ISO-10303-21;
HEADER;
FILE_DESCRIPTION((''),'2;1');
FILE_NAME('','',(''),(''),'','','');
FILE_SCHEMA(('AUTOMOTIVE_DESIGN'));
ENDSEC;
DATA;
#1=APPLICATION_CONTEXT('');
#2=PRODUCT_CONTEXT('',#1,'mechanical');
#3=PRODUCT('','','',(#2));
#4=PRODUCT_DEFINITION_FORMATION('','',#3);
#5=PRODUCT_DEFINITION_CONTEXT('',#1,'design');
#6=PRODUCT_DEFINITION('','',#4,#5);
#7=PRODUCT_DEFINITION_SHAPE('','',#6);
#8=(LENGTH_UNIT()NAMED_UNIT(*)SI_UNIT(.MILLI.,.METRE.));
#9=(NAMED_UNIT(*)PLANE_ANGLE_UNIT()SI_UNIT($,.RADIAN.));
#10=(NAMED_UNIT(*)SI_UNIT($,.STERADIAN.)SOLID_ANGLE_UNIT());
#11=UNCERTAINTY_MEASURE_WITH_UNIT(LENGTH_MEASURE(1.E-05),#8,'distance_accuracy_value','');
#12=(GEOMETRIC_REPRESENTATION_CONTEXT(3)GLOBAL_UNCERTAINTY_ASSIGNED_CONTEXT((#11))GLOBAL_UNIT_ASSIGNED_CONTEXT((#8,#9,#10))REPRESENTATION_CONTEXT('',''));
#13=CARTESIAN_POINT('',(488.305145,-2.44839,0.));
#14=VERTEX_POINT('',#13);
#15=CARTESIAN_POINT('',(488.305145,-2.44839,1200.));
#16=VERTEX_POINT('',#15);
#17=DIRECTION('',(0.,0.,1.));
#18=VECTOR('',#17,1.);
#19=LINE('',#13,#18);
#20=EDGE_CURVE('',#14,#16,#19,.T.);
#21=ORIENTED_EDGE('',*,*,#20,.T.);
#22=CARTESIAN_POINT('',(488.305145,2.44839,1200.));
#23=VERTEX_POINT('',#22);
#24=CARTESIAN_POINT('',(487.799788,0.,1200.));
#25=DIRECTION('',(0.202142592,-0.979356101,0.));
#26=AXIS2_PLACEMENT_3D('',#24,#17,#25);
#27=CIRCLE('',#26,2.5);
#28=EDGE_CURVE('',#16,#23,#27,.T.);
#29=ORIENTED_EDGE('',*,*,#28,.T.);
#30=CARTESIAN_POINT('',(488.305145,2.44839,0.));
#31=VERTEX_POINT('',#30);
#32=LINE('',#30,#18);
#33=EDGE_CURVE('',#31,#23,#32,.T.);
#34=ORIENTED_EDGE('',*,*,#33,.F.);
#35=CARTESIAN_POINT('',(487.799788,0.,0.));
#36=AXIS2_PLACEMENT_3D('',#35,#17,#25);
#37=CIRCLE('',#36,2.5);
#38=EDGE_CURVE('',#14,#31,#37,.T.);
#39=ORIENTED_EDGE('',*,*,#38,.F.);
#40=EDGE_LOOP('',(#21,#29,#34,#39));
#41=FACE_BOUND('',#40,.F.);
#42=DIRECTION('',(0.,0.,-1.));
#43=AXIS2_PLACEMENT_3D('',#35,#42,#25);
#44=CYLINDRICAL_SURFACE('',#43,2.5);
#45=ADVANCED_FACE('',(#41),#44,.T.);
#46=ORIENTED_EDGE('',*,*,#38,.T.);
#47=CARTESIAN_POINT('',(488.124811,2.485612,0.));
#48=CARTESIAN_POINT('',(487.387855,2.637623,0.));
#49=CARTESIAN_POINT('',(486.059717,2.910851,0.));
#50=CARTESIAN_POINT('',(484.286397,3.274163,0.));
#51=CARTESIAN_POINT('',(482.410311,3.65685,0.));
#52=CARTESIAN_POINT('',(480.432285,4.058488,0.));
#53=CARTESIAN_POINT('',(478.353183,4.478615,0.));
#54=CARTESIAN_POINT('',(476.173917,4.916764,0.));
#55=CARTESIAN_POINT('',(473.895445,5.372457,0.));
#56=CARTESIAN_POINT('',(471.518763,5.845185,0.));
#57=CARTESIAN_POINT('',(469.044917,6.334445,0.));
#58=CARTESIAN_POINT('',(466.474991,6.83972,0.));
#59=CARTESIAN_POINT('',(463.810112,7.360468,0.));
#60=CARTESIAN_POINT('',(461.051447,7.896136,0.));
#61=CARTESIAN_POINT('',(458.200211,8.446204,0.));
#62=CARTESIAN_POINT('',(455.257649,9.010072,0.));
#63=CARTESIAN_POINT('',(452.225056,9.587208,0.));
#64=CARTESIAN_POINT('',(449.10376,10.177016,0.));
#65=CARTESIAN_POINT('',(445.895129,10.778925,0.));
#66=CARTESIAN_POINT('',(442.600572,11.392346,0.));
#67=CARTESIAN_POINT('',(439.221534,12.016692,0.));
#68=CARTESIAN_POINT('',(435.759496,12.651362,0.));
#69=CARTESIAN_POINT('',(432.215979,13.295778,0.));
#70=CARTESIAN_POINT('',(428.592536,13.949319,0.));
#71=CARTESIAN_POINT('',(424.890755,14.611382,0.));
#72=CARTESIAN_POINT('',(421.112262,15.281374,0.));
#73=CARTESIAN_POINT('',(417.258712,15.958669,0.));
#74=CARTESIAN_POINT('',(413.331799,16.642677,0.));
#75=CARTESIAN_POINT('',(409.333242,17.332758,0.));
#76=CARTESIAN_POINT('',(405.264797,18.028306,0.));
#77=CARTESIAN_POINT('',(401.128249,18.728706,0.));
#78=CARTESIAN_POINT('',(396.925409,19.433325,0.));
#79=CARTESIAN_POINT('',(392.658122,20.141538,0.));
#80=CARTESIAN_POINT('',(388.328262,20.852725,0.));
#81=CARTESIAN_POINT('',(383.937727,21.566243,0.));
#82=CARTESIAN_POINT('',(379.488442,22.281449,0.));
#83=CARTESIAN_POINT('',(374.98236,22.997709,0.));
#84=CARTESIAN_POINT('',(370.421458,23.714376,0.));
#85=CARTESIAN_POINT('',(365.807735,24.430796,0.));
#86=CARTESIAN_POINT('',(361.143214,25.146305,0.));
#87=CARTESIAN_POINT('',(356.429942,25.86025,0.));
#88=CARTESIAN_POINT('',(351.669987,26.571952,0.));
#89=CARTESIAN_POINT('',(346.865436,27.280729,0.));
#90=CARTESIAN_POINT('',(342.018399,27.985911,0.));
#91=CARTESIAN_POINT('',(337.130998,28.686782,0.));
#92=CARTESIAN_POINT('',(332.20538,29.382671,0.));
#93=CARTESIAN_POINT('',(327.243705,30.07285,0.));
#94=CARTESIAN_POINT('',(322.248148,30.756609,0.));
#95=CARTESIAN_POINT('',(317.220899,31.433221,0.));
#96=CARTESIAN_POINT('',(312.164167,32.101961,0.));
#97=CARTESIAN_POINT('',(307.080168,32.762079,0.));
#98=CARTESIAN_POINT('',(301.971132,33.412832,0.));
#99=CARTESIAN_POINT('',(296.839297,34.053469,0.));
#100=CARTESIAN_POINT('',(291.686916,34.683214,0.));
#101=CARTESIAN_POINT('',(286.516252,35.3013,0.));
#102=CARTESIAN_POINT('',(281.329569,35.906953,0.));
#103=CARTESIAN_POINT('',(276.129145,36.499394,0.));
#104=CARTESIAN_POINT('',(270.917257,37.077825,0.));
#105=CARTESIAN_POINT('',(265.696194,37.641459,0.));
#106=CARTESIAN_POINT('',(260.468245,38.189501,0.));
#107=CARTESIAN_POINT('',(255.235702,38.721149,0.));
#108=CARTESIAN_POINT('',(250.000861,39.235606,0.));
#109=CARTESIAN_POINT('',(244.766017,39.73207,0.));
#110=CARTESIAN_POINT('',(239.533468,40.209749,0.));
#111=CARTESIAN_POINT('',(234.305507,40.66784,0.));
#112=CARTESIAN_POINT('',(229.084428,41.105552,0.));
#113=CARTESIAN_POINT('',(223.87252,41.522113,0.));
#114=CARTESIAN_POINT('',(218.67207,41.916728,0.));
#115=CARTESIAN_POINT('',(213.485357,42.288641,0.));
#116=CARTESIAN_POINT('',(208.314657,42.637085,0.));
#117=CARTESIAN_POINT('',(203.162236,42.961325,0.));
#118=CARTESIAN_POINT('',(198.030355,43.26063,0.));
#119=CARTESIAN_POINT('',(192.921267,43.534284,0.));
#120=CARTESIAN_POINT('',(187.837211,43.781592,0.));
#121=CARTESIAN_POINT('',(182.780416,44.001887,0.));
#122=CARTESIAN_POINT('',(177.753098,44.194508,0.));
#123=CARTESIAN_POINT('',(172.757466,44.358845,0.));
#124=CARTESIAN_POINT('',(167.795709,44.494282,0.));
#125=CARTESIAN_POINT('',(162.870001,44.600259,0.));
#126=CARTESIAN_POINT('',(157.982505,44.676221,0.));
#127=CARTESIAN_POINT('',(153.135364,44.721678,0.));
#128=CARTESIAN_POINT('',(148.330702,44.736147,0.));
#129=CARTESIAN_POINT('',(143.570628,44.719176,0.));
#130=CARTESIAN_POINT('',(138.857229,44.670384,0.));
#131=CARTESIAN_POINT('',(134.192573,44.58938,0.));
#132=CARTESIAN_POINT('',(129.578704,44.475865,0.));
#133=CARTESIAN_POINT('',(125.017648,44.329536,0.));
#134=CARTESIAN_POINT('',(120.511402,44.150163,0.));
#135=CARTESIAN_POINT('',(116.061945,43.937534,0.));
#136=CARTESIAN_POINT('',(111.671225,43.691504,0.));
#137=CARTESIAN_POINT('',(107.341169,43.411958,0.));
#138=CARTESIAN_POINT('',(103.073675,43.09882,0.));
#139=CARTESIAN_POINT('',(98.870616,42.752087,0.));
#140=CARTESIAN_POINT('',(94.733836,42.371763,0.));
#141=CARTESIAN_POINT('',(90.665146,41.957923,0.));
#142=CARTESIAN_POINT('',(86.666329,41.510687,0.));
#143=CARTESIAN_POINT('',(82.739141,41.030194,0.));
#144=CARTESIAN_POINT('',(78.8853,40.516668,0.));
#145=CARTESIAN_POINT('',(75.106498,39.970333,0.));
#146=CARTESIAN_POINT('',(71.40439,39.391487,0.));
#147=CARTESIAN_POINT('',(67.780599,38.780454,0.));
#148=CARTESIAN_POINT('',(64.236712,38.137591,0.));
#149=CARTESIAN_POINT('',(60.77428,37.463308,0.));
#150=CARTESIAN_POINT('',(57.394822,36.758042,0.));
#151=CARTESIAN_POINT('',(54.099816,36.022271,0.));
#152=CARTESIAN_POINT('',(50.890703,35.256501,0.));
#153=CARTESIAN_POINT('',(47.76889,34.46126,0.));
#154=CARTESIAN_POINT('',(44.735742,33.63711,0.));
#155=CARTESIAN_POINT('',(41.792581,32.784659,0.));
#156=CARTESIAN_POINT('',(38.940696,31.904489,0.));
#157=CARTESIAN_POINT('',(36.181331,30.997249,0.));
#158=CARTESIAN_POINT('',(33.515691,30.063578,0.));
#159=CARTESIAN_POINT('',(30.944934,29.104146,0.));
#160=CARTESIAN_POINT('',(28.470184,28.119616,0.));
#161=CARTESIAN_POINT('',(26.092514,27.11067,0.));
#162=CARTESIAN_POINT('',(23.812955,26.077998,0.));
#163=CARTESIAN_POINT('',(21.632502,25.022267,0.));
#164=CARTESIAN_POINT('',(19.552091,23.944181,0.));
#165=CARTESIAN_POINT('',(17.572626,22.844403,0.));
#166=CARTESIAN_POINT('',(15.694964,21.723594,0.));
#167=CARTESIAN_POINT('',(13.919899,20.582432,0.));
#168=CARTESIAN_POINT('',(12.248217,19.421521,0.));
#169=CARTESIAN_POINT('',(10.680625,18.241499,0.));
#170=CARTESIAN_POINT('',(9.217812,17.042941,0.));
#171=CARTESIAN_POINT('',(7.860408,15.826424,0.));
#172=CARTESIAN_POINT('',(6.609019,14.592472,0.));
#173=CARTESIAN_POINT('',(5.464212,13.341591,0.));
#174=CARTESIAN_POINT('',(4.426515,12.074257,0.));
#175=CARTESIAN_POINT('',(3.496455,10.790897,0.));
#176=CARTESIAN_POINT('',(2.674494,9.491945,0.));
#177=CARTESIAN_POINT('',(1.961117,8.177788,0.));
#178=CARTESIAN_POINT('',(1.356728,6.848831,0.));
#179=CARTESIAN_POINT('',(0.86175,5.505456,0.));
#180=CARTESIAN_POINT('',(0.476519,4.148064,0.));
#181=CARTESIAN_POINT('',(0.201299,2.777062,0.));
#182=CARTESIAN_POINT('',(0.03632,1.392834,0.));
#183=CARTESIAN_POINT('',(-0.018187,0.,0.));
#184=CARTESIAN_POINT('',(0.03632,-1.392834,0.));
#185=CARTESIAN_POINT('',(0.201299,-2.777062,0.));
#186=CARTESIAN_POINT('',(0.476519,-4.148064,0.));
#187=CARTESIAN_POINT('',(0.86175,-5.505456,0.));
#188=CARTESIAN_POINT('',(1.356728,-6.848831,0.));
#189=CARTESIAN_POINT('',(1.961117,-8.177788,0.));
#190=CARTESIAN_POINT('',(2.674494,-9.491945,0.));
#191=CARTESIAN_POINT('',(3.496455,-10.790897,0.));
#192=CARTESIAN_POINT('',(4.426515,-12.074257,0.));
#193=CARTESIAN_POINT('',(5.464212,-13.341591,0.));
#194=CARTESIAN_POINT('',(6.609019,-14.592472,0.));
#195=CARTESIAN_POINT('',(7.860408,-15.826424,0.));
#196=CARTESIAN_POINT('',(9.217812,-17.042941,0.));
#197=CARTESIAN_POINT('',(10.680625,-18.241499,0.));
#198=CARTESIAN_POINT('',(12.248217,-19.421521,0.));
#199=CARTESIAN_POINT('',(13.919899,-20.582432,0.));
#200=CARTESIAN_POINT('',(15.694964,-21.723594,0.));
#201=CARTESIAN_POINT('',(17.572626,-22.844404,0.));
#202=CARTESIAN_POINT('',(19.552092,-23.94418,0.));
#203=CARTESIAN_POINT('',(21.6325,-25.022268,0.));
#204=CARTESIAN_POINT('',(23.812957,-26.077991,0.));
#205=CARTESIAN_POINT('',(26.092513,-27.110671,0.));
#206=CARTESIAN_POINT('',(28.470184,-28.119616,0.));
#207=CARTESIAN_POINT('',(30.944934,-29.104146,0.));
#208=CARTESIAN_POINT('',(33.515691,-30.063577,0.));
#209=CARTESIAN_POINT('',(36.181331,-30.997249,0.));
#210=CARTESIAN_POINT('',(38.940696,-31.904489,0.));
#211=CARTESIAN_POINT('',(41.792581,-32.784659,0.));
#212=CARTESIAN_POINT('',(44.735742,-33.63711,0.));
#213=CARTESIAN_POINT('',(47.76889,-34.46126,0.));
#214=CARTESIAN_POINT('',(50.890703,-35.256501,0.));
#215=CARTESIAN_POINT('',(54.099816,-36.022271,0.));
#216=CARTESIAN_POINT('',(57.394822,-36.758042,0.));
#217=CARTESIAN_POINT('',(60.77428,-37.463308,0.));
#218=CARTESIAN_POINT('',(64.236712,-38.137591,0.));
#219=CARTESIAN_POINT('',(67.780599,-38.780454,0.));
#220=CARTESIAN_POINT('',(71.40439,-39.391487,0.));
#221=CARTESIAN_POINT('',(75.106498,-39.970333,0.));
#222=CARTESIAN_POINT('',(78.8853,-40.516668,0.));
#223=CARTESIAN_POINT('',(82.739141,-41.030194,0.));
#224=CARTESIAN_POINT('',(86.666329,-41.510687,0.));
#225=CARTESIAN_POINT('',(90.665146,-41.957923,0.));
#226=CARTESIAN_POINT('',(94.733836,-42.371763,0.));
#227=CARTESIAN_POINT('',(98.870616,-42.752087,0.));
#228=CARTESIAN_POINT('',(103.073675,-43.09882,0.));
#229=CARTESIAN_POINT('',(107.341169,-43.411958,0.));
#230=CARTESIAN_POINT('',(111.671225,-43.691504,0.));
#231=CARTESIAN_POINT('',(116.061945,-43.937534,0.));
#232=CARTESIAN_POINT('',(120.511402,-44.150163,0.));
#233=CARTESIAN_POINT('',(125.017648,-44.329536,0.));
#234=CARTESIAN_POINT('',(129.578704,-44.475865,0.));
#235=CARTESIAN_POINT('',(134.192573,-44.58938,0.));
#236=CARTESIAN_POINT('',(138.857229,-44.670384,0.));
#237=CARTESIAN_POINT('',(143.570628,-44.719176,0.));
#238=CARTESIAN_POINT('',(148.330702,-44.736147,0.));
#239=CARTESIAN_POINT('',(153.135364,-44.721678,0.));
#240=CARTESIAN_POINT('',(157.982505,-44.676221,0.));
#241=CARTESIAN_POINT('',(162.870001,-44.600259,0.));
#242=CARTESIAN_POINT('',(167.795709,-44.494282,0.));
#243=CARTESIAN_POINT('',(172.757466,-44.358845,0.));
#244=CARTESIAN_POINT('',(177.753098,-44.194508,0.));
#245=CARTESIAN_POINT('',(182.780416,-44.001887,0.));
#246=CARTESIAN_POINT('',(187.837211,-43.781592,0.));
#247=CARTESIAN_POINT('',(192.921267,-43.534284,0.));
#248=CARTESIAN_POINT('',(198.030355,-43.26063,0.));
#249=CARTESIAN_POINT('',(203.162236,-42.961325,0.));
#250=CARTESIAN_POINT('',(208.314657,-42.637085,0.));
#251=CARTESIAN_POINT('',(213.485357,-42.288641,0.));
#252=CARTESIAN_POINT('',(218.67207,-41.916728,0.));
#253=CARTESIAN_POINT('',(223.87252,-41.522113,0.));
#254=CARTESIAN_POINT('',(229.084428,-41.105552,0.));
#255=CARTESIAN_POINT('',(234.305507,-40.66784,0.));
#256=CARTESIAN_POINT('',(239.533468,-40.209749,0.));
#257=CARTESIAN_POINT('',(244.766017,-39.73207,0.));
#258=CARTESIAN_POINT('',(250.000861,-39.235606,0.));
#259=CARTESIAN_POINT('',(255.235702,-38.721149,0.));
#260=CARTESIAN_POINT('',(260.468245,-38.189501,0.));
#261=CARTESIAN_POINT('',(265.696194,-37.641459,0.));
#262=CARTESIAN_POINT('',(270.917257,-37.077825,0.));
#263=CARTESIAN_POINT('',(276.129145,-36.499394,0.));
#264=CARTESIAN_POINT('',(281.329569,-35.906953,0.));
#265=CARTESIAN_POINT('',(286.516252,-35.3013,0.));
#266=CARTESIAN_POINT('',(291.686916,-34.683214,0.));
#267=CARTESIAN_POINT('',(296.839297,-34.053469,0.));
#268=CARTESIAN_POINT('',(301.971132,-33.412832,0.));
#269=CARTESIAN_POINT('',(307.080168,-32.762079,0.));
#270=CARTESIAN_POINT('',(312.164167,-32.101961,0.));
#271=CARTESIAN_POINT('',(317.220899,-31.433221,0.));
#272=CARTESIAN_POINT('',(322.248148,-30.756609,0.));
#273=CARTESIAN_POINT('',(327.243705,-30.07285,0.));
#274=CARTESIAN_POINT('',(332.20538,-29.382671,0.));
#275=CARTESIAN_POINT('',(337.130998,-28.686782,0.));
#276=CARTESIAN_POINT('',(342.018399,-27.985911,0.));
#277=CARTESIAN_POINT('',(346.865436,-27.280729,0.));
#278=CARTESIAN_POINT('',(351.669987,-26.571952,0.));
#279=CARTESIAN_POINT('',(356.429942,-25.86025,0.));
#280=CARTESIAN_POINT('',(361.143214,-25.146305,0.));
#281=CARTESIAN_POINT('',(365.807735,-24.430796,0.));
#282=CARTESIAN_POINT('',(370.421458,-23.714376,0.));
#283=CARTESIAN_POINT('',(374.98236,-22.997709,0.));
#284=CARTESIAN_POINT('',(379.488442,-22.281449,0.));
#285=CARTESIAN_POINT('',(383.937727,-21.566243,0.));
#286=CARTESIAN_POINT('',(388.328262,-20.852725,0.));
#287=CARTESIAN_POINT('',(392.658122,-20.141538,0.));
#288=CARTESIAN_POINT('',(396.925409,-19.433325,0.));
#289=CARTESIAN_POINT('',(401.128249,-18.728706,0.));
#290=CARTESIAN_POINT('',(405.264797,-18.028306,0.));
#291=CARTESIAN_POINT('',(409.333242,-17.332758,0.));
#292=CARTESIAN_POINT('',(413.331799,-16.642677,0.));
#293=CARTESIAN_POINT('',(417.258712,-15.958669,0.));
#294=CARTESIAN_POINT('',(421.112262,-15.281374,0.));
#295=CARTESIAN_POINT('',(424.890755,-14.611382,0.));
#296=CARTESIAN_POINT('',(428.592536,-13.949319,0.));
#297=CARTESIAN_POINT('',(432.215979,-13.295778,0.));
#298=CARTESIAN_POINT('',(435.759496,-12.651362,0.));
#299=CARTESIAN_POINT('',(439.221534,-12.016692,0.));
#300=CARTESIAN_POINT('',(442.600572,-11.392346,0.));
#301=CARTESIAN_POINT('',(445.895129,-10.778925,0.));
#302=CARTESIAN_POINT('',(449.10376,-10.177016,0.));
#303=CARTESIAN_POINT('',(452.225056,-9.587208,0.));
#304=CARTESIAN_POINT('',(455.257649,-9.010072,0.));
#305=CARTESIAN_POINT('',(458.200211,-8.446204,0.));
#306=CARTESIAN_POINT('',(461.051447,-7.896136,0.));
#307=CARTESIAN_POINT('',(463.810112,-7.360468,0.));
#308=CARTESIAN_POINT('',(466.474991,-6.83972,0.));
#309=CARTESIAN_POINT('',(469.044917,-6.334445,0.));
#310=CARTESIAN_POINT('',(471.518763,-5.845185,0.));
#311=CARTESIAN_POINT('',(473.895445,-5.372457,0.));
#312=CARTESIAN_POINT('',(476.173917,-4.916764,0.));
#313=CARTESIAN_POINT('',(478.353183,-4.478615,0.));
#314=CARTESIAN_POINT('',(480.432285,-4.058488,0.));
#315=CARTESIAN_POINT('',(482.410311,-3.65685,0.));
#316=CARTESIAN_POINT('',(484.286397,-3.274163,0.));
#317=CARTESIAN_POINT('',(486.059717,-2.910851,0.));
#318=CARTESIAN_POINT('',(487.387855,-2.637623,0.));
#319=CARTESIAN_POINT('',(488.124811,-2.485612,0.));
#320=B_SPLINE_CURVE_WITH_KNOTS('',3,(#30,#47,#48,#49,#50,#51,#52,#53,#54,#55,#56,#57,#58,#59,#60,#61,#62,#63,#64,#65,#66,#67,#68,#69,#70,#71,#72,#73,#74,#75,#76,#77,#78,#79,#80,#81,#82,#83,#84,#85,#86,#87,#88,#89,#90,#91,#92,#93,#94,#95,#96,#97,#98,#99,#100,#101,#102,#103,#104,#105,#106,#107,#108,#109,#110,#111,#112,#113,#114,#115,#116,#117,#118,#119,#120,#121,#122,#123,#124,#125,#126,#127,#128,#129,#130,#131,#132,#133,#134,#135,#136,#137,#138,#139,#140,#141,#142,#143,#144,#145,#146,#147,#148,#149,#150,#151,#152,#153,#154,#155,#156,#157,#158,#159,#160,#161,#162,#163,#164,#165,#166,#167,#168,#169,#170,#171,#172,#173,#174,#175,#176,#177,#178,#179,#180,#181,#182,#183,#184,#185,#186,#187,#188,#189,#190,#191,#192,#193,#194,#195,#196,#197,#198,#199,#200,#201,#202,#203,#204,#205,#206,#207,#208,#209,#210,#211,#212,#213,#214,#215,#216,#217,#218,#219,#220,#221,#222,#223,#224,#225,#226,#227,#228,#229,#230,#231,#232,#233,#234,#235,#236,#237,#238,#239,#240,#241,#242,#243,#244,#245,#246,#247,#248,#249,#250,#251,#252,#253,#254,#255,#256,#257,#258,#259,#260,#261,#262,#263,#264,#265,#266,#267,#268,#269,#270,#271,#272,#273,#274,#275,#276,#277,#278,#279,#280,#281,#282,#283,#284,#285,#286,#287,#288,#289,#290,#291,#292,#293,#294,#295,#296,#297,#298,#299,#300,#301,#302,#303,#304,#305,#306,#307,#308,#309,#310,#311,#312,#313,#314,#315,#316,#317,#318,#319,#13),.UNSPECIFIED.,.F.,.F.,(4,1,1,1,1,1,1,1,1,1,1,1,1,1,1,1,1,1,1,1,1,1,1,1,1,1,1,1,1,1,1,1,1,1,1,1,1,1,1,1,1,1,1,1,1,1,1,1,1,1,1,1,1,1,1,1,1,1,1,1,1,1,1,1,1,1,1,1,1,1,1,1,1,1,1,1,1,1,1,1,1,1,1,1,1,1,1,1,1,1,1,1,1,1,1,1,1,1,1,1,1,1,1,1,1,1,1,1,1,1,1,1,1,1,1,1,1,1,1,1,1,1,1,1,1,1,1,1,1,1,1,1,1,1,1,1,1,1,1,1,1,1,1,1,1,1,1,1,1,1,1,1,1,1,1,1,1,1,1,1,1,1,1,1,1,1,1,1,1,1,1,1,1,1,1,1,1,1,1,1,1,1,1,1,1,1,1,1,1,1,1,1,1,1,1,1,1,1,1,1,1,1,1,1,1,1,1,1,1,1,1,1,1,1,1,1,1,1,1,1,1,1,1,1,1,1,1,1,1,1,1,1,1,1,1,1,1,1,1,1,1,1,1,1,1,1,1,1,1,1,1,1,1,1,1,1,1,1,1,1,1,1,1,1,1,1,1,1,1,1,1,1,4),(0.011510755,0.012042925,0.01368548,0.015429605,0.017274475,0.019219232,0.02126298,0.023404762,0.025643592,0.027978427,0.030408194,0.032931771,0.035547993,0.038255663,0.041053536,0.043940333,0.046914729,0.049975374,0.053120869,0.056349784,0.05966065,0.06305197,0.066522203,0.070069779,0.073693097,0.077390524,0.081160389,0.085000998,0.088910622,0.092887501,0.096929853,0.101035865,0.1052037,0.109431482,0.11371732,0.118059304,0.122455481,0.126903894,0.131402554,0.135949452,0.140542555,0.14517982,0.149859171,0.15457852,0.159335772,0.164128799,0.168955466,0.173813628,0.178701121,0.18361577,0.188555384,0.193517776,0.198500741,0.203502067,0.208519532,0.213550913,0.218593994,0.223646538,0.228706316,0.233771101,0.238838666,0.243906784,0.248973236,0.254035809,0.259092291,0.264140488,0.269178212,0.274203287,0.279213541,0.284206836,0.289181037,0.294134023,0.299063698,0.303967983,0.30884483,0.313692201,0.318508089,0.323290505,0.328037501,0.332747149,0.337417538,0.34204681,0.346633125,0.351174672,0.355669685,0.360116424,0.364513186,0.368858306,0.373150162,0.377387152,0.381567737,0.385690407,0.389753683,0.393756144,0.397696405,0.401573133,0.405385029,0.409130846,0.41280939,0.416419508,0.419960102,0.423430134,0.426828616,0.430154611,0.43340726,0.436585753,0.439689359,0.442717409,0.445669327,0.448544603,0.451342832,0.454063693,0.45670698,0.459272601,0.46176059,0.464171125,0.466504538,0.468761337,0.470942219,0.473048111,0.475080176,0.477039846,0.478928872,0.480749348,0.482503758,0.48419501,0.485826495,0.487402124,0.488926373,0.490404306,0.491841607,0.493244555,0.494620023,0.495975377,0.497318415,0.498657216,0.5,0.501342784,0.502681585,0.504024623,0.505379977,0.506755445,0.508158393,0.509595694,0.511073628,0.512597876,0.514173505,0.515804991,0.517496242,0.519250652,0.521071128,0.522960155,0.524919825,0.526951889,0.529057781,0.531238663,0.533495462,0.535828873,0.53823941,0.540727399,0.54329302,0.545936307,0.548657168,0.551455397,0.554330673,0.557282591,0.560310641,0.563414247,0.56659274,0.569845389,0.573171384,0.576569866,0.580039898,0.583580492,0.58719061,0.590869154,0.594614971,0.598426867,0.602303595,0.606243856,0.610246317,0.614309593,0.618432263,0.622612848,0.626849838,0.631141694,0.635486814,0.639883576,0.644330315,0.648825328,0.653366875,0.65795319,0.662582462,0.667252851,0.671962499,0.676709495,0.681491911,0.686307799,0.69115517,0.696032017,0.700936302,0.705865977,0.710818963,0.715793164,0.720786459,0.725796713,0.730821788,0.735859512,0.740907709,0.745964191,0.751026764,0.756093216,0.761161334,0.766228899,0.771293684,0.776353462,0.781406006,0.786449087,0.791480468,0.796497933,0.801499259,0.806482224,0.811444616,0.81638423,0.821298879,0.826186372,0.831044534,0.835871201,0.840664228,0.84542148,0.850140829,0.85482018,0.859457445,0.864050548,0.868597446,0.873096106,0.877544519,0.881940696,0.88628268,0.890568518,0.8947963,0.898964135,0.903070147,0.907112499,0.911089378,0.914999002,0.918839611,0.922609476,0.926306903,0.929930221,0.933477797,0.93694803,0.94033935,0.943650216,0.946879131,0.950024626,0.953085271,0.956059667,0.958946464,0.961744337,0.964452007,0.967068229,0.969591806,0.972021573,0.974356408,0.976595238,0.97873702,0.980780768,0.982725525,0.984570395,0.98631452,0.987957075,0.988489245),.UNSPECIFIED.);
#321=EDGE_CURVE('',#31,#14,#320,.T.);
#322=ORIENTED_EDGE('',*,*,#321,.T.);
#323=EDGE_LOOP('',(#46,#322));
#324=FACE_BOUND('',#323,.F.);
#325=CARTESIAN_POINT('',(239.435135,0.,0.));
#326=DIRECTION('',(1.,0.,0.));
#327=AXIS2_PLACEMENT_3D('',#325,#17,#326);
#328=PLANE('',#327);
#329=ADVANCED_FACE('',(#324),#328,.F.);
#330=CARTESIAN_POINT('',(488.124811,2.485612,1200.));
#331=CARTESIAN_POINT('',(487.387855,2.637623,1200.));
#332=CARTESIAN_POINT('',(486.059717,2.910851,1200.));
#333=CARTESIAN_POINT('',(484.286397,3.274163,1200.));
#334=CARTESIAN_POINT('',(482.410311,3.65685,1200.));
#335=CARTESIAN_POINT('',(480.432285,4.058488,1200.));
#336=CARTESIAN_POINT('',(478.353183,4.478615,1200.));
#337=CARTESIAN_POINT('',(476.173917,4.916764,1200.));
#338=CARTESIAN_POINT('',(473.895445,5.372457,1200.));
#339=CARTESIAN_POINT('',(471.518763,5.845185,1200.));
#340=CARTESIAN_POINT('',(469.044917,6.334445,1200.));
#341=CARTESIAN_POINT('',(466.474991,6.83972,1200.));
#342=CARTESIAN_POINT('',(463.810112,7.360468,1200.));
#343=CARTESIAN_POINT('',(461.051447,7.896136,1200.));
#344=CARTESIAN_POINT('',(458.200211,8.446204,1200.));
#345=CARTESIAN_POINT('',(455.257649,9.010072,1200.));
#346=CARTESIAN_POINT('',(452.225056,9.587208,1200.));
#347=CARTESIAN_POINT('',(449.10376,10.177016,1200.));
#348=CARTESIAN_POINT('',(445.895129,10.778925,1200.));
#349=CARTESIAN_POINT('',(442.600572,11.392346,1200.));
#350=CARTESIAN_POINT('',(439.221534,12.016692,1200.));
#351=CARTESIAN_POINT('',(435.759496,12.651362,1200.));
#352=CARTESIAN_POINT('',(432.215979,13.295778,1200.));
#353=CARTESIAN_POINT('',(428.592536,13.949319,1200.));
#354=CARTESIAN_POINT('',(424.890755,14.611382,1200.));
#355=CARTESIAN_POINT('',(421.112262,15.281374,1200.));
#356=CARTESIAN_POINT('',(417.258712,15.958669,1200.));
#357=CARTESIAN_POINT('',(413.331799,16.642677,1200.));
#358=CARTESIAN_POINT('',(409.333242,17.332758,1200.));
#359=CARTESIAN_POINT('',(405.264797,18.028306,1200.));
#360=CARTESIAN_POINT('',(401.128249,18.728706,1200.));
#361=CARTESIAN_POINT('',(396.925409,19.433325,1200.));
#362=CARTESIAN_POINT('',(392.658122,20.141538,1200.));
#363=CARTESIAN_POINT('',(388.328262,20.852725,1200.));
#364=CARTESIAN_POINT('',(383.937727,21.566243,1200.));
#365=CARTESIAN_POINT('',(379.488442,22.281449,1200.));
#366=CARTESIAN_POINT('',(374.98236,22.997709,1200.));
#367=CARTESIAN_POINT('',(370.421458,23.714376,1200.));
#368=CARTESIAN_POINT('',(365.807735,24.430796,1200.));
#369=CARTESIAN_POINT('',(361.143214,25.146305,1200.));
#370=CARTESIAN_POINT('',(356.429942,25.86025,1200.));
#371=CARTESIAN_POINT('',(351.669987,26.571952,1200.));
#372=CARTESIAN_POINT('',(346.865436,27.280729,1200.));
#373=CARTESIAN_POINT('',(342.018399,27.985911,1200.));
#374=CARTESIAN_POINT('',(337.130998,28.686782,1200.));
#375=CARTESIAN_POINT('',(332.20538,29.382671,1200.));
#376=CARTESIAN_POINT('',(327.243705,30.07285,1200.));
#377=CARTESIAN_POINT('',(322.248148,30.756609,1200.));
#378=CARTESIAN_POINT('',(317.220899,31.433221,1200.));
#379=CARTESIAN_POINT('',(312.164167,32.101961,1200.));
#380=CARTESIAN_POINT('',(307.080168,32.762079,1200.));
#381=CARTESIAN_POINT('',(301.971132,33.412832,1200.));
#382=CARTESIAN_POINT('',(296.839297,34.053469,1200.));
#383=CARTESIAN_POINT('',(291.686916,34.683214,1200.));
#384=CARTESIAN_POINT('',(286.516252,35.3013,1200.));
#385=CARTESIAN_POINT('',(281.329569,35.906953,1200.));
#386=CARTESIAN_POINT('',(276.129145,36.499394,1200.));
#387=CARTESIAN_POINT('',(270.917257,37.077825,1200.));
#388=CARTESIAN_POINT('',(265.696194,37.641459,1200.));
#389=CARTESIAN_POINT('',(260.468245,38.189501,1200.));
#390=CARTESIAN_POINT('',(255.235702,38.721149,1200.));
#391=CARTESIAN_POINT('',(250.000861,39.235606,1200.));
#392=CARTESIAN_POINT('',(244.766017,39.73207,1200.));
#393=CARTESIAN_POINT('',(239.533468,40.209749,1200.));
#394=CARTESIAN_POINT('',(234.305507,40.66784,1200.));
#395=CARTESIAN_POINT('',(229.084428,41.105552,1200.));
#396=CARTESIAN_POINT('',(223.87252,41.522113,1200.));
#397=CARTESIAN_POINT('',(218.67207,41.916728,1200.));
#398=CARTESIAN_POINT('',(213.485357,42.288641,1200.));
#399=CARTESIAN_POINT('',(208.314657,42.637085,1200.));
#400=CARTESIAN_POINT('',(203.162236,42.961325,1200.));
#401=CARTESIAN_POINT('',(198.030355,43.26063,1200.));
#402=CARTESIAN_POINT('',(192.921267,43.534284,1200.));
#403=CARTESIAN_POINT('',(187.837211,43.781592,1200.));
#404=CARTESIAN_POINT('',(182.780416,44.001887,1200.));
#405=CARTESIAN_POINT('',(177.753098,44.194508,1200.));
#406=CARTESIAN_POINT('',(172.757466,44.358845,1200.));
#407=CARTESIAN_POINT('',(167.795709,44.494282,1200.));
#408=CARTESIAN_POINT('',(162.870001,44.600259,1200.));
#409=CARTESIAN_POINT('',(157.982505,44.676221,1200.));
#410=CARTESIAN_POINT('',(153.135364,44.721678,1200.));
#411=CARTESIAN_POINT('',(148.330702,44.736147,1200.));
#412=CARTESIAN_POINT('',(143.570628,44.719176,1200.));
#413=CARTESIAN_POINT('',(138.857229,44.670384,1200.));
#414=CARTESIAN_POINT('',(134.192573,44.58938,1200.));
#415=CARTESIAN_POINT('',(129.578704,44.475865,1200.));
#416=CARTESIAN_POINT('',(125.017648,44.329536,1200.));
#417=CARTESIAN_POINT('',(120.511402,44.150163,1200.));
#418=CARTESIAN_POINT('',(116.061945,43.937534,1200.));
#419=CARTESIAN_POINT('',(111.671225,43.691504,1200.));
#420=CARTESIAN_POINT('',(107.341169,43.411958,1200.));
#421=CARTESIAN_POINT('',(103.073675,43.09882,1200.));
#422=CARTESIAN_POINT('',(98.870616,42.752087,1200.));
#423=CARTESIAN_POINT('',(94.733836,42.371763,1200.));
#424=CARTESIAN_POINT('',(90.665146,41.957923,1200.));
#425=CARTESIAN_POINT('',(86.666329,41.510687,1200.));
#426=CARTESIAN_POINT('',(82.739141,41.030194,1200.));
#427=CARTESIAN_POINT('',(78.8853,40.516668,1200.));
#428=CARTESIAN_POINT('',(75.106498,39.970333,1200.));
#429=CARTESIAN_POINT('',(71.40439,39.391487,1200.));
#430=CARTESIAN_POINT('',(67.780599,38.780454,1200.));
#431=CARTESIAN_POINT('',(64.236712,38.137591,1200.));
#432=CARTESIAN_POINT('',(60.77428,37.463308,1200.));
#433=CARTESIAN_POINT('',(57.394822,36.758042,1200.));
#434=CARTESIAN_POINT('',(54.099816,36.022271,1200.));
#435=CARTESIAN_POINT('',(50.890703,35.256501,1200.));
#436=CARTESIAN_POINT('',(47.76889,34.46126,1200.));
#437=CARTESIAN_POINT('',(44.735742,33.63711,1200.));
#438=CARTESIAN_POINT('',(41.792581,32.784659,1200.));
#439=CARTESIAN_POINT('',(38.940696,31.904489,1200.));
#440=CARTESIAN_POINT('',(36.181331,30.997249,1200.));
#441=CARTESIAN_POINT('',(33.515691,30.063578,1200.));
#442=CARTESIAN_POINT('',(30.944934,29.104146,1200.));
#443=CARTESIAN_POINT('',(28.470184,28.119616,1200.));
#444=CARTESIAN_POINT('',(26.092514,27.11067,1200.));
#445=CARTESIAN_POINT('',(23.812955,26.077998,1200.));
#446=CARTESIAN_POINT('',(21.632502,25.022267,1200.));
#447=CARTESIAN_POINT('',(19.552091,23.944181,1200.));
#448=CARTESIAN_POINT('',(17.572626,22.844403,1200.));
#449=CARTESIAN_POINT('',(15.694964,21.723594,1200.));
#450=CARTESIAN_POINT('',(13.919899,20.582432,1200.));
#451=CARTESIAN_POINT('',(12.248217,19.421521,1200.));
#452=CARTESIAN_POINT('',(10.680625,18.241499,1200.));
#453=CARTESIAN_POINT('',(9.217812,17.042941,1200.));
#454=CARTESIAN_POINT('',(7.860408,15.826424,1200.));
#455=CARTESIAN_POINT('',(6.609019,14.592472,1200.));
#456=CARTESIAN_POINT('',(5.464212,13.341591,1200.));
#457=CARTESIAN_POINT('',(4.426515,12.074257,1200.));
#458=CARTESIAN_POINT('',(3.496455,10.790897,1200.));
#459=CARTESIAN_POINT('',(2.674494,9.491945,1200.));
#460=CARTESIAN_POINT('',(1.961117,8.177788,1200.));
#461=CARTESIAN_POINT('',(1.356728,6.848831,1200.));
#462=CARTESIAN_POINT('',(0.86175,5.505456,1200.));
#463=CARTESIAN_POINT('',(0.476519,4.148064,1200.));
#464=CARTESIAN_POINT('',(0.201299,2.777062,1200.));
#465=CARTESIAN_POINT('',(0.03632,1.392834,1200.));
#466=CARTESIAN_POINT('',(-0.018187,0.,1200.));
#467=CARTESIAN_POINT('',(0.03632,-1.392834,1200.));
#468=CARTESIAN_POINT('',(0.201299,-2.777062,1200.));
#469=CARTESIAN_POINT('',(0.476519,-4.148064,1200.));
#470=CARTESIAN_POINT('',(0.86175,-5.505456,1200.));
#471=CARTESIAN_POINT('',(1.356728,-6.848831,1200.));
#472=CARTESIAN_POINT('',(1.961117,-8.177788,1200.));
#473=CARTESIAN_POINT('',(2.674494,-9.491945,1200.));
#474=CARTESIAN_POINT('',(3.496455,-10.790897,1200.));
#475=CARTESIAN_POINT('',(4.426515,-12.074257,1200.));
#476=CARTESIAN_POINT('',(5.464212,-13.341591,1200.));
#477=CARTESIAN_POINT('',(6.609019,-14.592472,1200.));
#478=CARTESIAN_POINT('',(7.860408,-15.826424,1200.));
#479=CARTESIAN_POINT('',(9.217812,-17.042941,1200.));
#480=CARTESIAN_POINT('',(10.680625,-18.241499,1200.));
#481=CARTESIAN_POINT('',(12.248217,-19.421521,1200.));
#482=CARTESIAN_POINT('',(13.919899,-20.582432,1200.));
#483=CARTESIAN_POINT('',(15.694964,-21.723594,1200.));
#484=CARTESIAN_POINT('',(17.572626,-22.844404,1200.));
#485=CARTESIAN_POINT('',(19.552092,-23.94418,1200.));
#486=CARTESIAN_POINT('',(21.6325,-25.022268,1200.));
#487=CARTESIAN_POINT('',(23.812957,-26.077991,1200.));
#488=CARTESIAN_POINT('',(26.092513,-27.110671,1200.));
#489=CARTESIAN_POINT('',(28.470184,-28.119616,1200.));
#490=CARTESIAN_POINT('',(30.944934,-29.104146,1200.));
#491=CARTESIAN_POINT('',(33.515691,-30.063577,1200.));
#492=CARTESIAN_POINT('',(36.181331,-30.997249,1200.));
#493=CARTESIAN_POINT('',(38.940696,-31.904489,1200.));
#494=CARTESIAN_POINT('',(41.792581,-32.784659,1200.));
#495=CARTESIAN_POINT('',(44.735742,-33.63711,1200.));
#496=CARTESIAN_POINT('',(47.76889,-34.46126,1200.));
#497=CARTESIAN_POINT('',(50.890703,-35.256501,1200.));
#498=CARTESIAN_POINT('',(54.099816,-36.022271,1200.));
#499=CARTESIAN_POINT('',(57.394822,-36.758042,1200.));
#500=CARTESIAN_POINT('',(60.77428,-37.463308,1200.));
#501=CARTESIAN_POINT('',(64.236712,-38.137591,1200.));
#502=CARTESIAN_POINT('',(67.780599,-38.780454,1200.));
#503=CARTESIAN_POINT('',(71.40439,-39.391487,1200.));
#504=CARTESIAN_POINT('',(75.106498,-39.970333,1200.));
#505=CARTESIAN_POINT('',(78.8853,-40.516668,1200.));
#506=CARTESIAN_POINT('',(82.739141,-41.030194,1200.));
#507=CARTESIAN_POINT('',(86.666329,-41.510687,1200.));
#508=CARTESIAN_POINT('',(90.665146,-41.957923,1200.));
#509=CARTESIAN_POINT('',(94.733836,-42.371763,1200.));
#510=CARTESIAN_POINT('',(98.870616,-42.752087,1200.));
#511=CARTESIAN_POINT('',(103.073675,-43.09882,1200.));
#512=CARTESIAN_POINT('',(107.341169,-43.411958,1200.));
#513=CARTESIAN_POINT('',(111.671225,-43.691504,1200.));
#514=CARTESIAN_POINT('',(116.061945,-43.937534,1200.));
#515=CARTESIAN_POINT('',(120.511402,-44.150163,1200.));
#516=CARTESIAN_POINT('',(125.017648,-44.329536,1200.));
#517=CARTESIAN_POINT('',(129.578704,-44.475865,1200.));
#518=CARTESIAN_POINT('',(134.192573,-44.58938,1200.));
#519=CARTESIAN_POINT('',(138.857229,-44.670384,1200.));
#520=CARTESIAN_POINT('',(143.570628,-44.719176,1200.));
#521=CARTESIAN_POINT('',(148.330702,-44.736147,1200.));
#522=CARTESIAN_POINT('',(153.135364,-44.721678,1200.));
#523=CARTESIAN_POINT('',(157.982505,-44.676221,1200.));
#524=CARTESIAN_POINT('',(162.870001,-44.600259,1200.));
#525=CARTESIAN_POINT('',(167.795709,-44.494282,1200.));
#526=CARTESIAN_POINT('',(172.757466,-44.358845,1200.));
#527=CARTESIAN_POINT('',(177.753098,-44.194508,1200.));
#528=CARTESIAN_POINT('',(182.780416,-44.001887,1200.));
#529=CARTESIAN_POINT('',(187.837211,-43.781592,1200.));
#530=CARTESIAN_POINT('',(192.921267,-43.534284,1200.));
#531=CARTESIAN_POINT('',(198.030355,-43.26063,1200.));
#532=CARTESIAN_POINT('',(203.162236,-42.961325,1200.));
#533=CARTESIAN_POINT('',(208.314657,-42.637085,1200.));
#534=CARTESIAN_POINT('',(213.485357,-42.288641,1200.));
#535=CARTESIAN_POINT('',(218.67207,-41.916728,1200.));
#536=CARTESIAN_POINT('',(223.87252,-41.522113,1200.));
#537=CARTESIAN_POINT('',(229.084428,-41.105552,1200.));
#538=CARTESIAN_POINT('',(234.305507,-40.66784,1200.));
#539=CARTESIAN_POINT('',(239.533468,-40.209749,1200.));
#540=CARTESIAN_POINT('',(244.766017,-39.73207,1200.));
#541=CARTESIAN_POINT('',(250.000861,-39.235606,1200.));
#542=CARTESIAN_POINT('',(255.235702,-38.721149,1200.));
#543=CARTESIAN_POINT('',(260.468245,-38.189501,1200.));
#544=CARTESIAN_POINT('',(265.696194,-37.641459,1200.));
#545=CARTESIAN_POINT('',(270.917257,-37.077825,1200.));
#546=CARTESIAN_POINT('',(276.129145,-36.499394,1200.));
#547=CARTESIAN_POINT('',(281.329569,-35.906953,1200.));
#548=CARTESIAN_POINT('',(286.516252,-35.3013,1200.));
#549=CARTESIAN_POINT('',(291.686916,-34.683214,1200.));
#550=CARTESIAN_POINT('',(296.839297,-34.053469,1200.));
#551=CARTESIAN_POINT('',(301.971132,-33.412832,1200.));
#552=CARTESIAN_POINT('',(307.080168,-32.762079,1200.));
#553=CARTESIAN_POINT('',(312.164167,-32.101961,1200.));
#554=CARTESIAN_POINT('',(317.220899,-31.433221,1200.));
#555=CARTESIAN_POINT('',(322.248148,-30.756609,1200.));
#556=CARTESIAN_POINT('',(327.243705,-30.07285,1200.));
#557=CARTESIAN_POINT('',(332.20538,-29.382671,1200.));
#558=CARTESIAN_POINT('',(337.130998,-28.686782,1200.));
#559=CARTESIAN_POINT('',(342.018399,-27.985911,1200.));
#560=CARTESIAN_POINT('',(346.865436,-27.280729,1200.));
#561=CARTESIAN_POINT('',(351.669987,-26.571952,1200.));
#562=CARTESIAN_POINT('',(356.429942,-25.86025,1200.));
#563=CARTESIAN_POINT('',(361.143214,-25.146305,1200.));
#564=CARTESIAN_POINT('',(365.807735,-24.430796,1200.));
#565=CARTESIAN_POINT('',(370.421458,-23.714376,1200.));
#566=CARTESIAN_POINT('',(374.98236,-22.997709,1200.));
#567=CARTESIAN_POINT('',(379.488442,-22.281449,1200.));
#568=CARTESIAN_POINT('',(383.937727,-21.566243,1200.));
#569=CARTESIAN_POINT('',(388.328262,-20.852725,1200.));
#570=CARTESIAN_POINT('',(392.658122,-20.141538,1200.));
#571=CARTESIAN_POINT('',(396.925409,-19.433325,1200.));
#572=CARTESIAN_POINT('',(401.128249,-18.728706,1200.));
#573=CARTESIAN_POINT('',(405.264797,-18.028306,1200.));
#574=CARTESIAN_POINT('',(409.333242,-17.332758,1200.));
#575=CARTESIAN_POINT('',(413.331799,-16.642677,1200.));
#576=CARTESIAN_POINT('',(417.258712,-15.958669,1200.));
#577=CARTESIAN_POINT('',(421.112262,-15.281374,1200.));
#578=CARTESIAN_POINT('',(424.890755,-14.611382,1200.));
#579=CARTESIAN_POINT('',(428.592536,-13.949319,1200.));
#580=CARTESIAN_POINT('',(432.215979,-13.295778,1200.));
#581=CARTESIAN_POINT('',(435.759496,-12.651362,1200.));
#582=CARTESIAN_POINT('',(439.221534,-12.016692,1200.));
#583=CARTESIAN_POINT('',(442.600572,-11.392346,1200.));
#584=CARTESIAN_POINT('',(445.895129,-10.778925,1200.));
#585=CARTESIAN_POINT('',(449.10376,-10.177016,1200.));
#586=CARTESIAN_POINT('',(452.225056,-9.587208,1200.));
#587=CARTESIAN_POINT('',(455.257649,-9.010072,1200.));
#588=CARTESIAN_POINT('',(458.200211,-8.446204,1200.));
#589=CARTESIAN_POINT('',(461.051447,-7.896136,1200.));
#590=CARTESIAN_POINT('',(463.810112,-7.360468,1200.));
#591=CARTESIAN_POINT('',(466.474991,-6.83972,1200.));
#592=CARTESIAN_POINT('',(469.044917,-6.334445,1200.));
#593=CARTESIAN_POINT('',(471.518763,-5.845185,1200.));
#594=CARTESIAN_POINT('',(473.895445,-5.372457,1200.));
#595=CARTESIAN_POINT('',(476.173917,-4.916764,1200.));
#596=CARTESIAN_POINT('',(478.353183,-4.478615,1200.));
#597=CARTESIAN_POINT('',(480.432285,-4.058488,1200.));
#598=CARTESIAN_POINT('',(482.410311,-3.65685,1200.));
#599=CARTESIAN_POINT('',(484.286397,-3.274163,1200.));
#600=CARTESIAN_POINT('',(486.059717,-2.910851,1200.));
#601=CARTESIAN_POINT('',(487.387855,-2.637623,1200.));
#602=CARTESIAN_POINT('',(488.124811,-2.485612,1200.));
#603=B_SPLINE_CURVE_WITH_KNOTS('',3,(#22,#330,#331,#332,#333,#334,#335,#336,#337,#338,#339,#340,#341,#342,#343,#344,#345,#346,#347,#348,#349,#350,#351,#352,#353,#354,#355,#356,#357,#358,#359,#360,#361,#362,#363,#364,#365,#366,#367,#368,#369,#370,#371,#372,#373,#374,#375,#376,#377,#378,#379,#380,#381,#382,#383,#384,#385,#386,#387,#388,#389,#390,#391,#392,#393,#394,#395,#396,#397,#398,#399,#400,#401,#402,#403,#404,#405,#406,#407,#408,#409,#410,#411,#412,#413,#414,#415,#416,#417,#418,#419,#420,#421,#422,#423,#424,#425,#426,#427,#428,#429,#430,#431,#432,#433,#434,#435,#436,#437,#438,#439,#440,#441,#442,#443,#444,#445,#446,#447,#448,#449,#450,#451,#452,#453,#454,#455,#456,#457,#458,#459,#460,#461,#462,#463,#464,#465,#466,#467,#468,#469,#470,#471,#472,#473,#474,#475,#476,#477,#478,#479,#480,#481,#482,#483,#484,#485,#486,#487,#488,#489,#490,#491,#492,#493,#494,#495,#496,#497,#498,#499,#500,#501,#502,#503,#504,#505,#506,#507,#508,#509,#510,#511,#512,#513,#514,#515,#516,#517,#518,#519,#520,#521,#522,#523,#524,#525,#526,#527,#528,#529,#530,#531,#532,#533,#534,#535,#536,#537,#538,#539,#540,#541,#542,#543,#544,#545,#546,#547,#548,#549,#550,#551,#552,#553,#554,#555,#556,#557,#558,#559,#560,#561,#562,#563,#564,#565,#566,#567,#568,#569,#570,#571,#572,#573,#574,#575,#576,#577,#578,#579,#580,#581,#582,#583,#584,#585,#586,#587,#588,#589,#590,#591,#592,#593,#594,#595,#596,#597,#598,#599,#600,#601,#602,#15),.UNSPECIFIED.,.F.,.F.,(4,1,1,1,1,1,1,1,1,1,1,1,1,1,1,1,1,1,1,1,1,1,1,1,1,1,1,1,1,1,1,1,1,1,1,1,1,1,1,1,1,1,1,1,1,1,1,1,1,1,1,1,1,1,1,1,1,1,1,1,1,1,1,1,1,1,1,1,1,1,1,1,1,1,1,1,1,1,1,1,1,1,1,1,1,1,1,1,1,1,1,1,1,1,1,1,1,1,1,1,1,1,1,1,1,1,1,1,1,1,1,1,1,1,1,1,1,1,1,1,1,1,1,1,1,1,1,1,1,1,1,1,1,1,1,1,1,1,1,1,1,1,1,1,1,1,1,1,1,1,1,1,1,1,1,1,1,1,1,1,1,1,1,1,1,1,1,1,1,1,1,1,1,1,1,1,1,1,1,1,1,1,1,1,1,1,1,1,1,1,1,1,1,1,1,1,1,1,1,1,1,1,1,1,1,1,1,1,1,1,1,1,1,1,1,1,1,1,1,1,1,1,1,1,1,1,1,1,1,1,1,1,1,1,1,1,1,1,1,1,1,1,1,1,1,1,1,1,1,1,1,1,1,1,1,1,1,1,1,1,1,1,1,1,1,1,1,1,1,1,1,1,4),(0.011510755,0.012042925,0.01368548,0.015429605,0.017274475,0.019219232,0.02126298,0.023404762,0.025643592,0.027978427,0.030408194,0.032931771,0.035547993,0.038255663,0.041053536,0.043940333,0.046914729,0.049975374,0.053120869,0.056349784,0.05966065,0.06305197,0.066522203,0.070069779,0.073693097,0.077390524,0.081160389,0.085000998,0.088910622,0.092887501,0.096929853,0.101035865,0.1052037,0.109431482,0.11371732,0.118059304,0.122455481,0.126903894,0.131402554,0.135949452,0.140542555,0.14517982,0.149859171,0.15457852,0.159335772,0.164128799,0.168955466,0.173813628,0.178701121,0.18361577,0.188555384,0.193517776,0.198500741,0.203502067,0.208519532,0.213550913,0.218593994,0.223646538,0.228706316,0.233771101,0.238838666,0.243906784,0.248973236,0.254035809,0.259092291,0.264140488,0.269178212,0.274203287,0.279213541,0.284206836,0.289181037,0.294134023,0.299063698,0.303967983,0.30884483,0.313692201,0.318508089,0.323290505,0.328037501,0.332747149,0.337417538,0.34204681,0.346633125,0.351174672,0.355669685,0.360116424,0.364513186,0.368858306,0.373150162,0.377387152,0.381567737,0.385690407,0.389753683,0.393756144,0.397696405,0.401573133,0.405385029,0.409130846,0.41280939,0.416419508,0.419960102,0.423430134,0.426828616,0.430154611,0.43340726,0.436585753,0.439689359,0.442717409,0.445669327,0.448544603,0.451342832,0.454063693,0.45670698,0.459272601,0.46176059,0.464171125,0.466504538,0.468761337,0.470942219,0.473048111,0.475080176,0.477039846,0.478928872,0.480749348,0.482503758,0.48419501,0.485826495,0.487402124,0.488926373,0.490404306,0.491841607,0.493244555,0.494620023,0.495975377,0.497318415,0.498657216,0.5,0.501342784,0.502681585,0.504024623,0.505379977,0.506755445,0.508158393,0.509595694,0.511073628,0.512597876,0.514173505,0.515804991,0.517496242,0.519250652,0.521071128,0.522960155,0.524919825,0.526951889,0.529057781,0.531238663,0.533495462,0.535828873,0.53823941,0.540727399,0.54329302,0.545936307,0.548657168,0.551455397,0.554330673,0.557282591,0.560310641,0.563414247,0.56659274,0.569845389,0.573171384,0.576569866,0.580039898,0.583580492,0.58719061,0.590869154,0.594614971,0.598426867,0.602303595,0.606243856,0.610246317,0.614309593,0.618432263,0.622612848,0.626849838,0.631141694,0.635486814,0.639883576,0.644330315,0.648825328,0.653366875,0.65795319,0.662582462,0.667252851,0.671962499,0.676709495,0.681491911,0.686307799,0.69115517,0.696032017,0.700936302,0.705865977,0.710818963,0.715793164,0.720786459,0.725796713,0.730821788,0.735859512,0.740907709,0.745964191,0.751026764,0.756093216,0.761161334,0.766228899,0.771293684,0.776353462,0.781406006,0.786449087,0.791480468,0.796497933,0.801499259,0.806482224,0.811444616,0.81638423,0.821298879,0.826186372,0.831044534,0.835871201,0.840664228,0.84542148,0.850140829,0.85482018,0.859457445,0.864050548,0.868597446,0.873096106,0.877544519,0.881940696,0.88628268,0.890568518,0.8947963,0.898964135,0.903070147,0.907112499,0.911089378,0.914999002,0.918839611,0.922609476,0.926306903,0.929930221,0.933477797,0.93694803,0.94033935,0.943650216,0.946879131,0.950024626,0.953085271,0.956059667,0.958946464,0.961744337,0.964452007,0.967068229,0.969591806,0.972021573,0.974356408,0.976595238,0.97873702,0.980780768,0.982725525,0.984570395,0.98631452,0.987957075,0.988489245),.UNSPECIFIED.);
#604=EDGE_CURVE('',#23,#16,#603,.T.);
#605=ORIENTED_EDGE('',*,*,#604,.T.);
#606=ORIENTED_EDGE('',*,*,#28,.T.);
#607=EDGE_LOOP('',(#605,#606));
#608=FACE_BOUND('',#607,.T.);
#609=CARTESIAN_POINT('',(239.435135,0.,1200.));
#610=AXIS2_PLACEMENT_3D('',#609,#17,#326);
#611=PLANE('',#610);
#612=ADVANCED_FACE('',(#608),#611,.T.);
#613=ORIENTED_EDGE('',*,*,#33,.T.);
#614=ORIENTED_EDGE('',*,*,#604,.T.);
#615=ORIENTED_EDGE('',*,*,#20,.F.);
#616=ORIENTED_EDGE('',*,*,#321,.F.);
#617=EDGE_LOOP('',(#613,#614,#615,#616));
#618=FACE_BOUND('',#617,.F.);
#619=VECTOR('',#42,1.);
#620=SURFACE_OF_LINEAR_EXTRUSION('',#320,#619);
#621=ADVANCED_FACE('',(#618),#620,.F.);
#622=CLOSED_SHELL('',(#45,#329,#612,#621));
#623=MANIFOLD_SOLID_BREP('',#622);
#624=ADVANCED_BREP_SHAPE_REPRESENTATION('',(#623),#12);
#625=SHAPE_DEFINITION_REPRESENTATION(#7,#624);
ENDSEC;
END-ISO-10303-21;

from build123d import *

# Parameters (mm, degrees)
BOSS_EXTRUDE1_DEPTH = 1200


with BuildPart() as part:
    # Sketch2 → Boss-Extrude1 (new body)
    with BuildSketch(Plane.XY):
        with BuildLine():
            ThreePointArc((488.305144841, -2.448390252), (490.299788361, 3.5e-08), (488.305144772, 2.448390267))
            add(Edge.make_bspline(
                [(488.305144772, 2.448390267), (488.124811309, 2.485611748), (487.387854717, 2.637623072), (486.05971682, 2.910850562), (484.286396793, 3.27416329), (482.410310751, 3.656850243), (480.432284688, 4.058487907), (478.353183223, 4.478614651), (476.173916668, 4.916763697), (473.895444753, 5.372457134), (471.518763052, 5.845184548), (469.044916792, 6.334445454), (466.474991312, 6.839720042), (463.810112154, 7.360467708), (461.051447255, 7.896136083), (458.200211186, 8.446204155), (455.257648866, 9.010071656), (452.225056209, 9.587208077), (449.103759993, 10.17701628), (445.895128907, 10.77892519), (442.600572158, 11.392345654), (439.221533967, 12.016692478), (435.759495547, 12.651362456), (432.215978932, 13.295777522), (428.592536015, 13.949319099), (424.890755113, 14.611381893), (421.112262139, 15.2813738), (417.258712116, 15.95866948), (413.331799058, 16.642676873), (409.333242325, 17.332758314), (405.264797071, 18.028305842), (401.12824943, 18.728706342), (396.925409156, 19.433325318), (392.658121539, 20.141537756), (388.328261773, 20.852725088), (383.937726638, 21.566243161), (379.488442364, 22.281449277), (374.98236013, 22.997709257), (370.421458195, 23.714376272), (365.80773461, 24.430795504), (361.143213717, 25.146304516), (356.429942258, 25.860250033), (351.669987148, 26.571951528), (346.865436386, 27.280728548), (342.018398966, 27.985910889), (337.130997682, 28.686782235), (332.205380076, 29.382670736), (327.243704839, 30.072849518), (322.248148097, 30.756608787), (317.220899218, 31.433221282), (312.164167374, 32.101960715), (307.080168058, 32.762079089), (301.971131717, 33.412832222), (296.839297221, 34.053468915), (291.68691645, 34.683213591), (286.51625164, 35.301300175), (281.329569222, 35.906952918), (276.129144691, 36.499394354), (270.917256628, 37.077825141), (265.696193996, 37.64145893), (260.468244936, 38.189500864), (255.235702232, 38.721149197), (250.000860929, 39.235606314), (244.766017084, 39.732069646), (239.533467861, 40.209748519), (234.305507255, 40.667839618), (229.084428367, 41.105552195), (223.872520254, 41.522113386), (218.672069544, 41.916728174), (213.485357137, 42.28864146), (208.314656837, 42.637085196), (203.162235703, 42.961325246), (198.030354881, 43.260629947), (192.921267334, 43.534284266), (187.837211005, 43.781591837), (182.780415971, 44.001887347), (177.753098047, 44.194508437), (172.757465889, 44.358844554), (167.795708691, 44.494282396), (162.870001456, 44.600259134), (157.982505285, 44.676221014), (153.13536353, 44.721678415), (148.330702306, 44.736146881), (143.570628116, 44.719175944), (138.857228797, 44.67038427), (134.192572712, 44.589379998), (129.578704085, 44.475864589), (125.017647985, 44.329535933), (120.511401945, 44.150163292), (116.061944501, 43.93753369), (111.671224651, 43.691504021), (107.341168757, 43.41195754), (103.073675285, 43.098820421), (98.87061569, 42.752086648), (94.733835659, 42.371763111), (90.665145817, 41.957922905), (86.666329263, 41.510687142), (82.739140957, 41.03019369), (78.885299923, 40.516668311), (75.106498014, 39.970333466), (71.404390379, 39.391487483), (67.780599016, 38.780453931), (64.236711638, 38.137591175), (60.774280149, 37.46330837), (57.394821588, 36.758041779), (54.09981554, 36.022271496), (50.890702522, 35.256500741), (47.76888995, 34.461260485), (44.735742368, 33.637109836), (41.792580543, 32.784658859), (38.940696102, 31.904489357), (36.181331285, 30.99724863), (33.515690871, 30.063577507), (30.944934289, 29.104146131), (28.470183732, 28.119616072), (26.092514114, 27.110669759), (23.812954657, 26.077998009), (21.632502006, 25.02226675), (19.552091496, 23.944180858), (17.572625969, 22.844403434), (15.694964212, 21.723594222), (13.919899036, 20.582431565), (12.24821673, 19.421521136), (10.680625445, 18.24149888), (9.217812421, 17.042941354), (7.860407943, 15.826423741), (6.609019222, 14.592471751), (5.464212262, 13.34159089), (4.426514711, 12.074256786), (3.496455219, 10.790897127), (2.67449404, 9.491945249), (1.961116711, 8.177788254), (1.356728499, 6.848830926), (0.861749549, 5.505455921), (0.476518811, 4.148063857), (0.201298831, 2.777062155), (0.03632042, 1.392834471), (-0.018187176, 0), (0.03632042, -1.392834471), (0.201298831, -2.777062155), (0.476518811, -4.148063857), (0.861749549, -5.505455921), (1.356728499, -6.848830926), (1.961116711, -8.177788254), (2.67449404, -9.491945249), (3.496455219, -10.790897127), (4.426514711, -12.074256786), (5.464212262, -13.34159089), (6.609019222, -14.592471751), (7.860407943, -15.826423741), (9.217812421, -17.042941354), (10.680625444, -18.24149888), (12.24821673, -19.421521135), (13.919899032, -20.582431573), (15.694964227, -21.723594192), (17.572625913, -22.844403551), (19.552091716, -23.944180398), (21.632500497, -25.02226822), (23.812957347, -26.077990609), (26.092512559, -27.110671493), (28.470183991, -28.11961551), (30.944934217, -29.104146288), (33.515690891, -30.063577463), (36.181331279, -30.997248643), (38.940696104, -31.904489353), (41.792580542, -32.78465886), (44.735742368, -33.637109836), (47.76888995, -34.461260485), (50.890702522, -35.256500741), (54.09981554, -36.022271496), (57.394821588, -36.758041779), (60.774280149, -37.46330837), (64.236711638, -38.137591175), (67.780599016, -38.780453931), (71.404390379, -39.391487483), (75.106498014, -39.970333466), (78.885299923, -40.516668311), (82.739140957, -41.03019369), (86.666329263, -41.510687142), (90.665145817, -41.957922905), (94.733835659, -42.371763111), (98.87061569, -42.752086648), (103.073675285, -43.098820421), (107.341168757, -43.41195754), (111.671224651, -43.691504021), (116.061944501, -43.93753369), (120.511401945, -44.150163292), (125.017647985, -44.329535933), (129.578704085, -44.475864589), (134.192572712, -44.589379998), (138.857228797, -44.67038427), (143.570628116, -44.719175944), (148.330702306, -44.736146881), (153.13536353, -44.721678415), (157.982505285, -44.676221014), (162.870001456, -44.600259134), (167.795708691, -44.494282396), (172.757465889, -44.358844554), (177.753098047, -44.194508437), (182.780415971, -44.001887347), (187.837211005, -43.781591837), (192.921267334, -43.534284266), (198.030354881, -43.260629947), (203.162235703, -42.961325246), (208.314656837, -42.637085196), (213.485357137, -42.28864146), (218.672069544, -41.916728174), (223.872520254, -41.522113386), (229.084428367, -41.105552195), (234.305507255, -40.667839618), (239.533467861, -40.209748519), (244.766017084, -39.732069646), (250.000860929, -39.235606314), (255.235702232, -38.721149197), (260.468244936, -38.189500864), (265.696193996, -37.64145893), (270.917256628, -37.077825141), (276.129144691, -36.499394354), (281.329569222, -35.906952918), (286.51625164, -35.301300175), (291.68691645, -34.683213591), (296.839297221, -34.053468915), (301.971131717, -33.412832222), (307.080168058, -32.762079089), (312.164167374, -32.101960715), (317.220899218, -31.433221282), (322.248148097, -30.756608787), (327.243704839, -30.072849518), (332.205380076, -29.382670736), (337.130997682, -28.686782235), (342.018398966, -27.985910889), (346.865436386, -27.280728548), (351.669987148, -26.571951528), (356.429942258, -25.860250033), (361.143213717, -25.146304516), (365.80773461, -24.430795504), (370.421458195, -23.714376272), (374.98236013, -22.997709257), (379.488442364, -22.281449277), (383.937726638, -21.566243161), (388.328261773, -20.852725088), (392.658121539, -20.141537756), (396.925409156, -19.433325318), (401.12824943, -18.728706342), (405.264797071, -18.028305842), (409.333242325, -17.332758314), (413.331799058, -16.642676873), (417.258712116, -15.95866948), (421.112262139, -15.2813738), (424.890755113, -14.611381893), (428.592536015, -13.949319099), (432.215978932, -13.295777522), (435.759495547, -12.651362456), (439.221533967, -12.016692478), (442.600572158, -11.392345654), (445.895128907, -10.77892519), (449.103759993, -10.17701628), (452.225056209, -9.587208077), (455.257648866, -9.010071656), (458.200211186, -8.446204155), (461.051447255, -7.896136083), (463.810112154, -7.360467708), (466.474991312, -6.839720042), (469.044916792, -6.334445454), (471.518763052, -5.845184548), (473.895444753, -5.372457134), (476.173916668, -4.916763697), (478.353183223, -4.478614651), (480.432284688, -4.058487907), (482.410310751, -3.656850243), (484.286396793, -3.27416329), (486.05971682, -2.910850562), (487.387854739, -2.637623067), (488.124811355, -2.485611739), (488.305144841, -2.448390252)],
                knots=[0.011510755, 0.011510755, 0.011510755, 0.011510755, 0.012042925, 0.01368548, 0.015429605, 0.017274475, 0.019219232, 0.02126298, 0.023404762, 0.025643592, 0.027978427, 0.030408194, 0.032931771, 0.035547993, 0.038255663, 0.041053536, 0.043940333, 0.046914729, 0.049975374, 0.053120869, 0.056349784, 0.05966065, 0.06305197, 0.066522203, 0.070069779, 0.073693097, 0.077390524, 0.081160389, 0.085000998, 0.088910622, 0.092887501, 0.096929853, 0.101035865, 0.1052037, 0.109431482, 0.11371732, 0.118059304, 0.122455481, 0.126903894, 0.131402554, 0.135949452, 0.140542555, 0.14517982, 0.149859171, 0.15457852, 0.159335772, 0.164128799, 0.168955466, 0.173813628, 0.178701121, 0.18361577, 0.188555384, 0.193517776, 0.198500741, 0.203502067, 0.208519532, 0.213550913, 0.218593994, 0.223646538, 0.228706316, 0.233771101, 0.238838666, 0.243906784, 0.248973236, 0.254035809, 0.259092291, 0.264140488, 0.269178212, 0.274203287, 0.279213541, 0.284206836, 0.289181037, 0.294134023, 0.299063698, 0.303967983, 0.30884483, 0.313692201, 0.318508089, 0.323290505, 0.328037501, 0.332747149, 0.337417538, 0.34204681, 0.346633125, 0.351174672, 0.355669685, 0.360116424, 0.364513186, 0.368858306, 0.373150162, 0.377387152, 0.381567737, 0.385690407, 0.389753683, 0.393756144, 0.397696405, 0.401573133, 0.405385029, 0.409130846, 0.41280939, 0.416419508, 0.419960102, 0.423430134, 0.426828616, 0.430154611, 0.43340726, 0.436585753, 0.439689359, 0.442717409, 0.445669327, 0.448544603, 0.451342832, 0.454063693, 0.45670698, 0.459272601, 0.46176059, 0.464171125, 0.466504538, 0.468761337, 0.470942219, 0.473048111, 0.475080176, 0.477039846, 0.478928872, 0.480749348, 0.482503758, 0.48419501, 0.485826495, 0.487402124, 0.488926373, 0.490404306, 0.491841607, 0.493244555, 0.494620023, 0.495975377, 0.497318415, 0.498657216, 0.5, 0.501342784, 0.502681585, 0.504024623, 0.505379977, 0.506755445, 0.508158393, 0.509595694, 0.511073628, 0.512597876, 0.514173505, 0.515804991, 0.517496242, 0.519250652, 0.521071128, 0.522960155, 0.524919825, 0.526951889, 0.529057781, 0.531238663, 0.533495462, 0.535828873, 0.53823941, 0.540727399, 0.54329302, 0.545936307, 0.548657168, 0.551455397, 0.554330673, 0.557282591, 0.560310641, 0.563414247, 0.56659274, 0.569845389, 0.573171384, 0.576569866, 0.580039898, 0.583580492, 0.58719061, 0.590869154, 0.594614971, 0.598426867, 0.602303595, 0.606243856, 0.610246317, 0.614309593, 0.618432263, 0.622612848, 0.626849838, 0.631141694, 0.635486814, 0.639883576, 0.644330315, 0.648825328, 0.653366875, 0.65795319, 0.662582462, 0.667252851, 0.671962499, 0.676709495, 0.681491911, 0.686307799, 0.69115517, 0.696032017, 0.700936302, 0.705865977, 0.710818963, 0.715793164, 0.720786459, 0.725796713, 0.730821788, 0.735859512, 0.740907709, 0.745964191, 0.751026764, 0.756093216, 0.761161334, 0.766228899, 0.771293684, 0.776353462, 0.781406006, 0.786449087, 0.791480468, 0.796497933, 0.801499259, 0.806482224, 0.811444616, 0.81638423, 0.821298879, 0.826186372, 0.831044534, 0.835871201, 0.840664228, 0.84542148, 0.850140829, 0.85482018, 0.859457445, 0.864050548, 0.868597446, 0.873096106, 0.877544519, 0.881940696, 0.88628268, 0.890568518, 0.8947963, 0.898964135, 0.903070147, 0.907112499, 0.911089378, 0.914999002, 0.918839611, 0.922609476, 0.926306903, 0.929930221, 0.933477797, 0.93694803, 0.94033935, 0.943650216, 0.946879131, 0.950024626, 0.953085271, 0.956059667, 0.958946464, 0.961744337, 0.964452007, 0.967068229, 0.969591806, 0.972021573, 0.974356408, 0.976595238, 0.97873702, 0.980780768, 0.982725525, 0.984570395, 0.98631452, 0.987957075, 0.988489245, 0.988489245, 0.988489245, 0.988489245], degree=3))
        make_face()
    extrude(amount=BOSS_EXTRUDE1_DEPTH)


solid = part.part
